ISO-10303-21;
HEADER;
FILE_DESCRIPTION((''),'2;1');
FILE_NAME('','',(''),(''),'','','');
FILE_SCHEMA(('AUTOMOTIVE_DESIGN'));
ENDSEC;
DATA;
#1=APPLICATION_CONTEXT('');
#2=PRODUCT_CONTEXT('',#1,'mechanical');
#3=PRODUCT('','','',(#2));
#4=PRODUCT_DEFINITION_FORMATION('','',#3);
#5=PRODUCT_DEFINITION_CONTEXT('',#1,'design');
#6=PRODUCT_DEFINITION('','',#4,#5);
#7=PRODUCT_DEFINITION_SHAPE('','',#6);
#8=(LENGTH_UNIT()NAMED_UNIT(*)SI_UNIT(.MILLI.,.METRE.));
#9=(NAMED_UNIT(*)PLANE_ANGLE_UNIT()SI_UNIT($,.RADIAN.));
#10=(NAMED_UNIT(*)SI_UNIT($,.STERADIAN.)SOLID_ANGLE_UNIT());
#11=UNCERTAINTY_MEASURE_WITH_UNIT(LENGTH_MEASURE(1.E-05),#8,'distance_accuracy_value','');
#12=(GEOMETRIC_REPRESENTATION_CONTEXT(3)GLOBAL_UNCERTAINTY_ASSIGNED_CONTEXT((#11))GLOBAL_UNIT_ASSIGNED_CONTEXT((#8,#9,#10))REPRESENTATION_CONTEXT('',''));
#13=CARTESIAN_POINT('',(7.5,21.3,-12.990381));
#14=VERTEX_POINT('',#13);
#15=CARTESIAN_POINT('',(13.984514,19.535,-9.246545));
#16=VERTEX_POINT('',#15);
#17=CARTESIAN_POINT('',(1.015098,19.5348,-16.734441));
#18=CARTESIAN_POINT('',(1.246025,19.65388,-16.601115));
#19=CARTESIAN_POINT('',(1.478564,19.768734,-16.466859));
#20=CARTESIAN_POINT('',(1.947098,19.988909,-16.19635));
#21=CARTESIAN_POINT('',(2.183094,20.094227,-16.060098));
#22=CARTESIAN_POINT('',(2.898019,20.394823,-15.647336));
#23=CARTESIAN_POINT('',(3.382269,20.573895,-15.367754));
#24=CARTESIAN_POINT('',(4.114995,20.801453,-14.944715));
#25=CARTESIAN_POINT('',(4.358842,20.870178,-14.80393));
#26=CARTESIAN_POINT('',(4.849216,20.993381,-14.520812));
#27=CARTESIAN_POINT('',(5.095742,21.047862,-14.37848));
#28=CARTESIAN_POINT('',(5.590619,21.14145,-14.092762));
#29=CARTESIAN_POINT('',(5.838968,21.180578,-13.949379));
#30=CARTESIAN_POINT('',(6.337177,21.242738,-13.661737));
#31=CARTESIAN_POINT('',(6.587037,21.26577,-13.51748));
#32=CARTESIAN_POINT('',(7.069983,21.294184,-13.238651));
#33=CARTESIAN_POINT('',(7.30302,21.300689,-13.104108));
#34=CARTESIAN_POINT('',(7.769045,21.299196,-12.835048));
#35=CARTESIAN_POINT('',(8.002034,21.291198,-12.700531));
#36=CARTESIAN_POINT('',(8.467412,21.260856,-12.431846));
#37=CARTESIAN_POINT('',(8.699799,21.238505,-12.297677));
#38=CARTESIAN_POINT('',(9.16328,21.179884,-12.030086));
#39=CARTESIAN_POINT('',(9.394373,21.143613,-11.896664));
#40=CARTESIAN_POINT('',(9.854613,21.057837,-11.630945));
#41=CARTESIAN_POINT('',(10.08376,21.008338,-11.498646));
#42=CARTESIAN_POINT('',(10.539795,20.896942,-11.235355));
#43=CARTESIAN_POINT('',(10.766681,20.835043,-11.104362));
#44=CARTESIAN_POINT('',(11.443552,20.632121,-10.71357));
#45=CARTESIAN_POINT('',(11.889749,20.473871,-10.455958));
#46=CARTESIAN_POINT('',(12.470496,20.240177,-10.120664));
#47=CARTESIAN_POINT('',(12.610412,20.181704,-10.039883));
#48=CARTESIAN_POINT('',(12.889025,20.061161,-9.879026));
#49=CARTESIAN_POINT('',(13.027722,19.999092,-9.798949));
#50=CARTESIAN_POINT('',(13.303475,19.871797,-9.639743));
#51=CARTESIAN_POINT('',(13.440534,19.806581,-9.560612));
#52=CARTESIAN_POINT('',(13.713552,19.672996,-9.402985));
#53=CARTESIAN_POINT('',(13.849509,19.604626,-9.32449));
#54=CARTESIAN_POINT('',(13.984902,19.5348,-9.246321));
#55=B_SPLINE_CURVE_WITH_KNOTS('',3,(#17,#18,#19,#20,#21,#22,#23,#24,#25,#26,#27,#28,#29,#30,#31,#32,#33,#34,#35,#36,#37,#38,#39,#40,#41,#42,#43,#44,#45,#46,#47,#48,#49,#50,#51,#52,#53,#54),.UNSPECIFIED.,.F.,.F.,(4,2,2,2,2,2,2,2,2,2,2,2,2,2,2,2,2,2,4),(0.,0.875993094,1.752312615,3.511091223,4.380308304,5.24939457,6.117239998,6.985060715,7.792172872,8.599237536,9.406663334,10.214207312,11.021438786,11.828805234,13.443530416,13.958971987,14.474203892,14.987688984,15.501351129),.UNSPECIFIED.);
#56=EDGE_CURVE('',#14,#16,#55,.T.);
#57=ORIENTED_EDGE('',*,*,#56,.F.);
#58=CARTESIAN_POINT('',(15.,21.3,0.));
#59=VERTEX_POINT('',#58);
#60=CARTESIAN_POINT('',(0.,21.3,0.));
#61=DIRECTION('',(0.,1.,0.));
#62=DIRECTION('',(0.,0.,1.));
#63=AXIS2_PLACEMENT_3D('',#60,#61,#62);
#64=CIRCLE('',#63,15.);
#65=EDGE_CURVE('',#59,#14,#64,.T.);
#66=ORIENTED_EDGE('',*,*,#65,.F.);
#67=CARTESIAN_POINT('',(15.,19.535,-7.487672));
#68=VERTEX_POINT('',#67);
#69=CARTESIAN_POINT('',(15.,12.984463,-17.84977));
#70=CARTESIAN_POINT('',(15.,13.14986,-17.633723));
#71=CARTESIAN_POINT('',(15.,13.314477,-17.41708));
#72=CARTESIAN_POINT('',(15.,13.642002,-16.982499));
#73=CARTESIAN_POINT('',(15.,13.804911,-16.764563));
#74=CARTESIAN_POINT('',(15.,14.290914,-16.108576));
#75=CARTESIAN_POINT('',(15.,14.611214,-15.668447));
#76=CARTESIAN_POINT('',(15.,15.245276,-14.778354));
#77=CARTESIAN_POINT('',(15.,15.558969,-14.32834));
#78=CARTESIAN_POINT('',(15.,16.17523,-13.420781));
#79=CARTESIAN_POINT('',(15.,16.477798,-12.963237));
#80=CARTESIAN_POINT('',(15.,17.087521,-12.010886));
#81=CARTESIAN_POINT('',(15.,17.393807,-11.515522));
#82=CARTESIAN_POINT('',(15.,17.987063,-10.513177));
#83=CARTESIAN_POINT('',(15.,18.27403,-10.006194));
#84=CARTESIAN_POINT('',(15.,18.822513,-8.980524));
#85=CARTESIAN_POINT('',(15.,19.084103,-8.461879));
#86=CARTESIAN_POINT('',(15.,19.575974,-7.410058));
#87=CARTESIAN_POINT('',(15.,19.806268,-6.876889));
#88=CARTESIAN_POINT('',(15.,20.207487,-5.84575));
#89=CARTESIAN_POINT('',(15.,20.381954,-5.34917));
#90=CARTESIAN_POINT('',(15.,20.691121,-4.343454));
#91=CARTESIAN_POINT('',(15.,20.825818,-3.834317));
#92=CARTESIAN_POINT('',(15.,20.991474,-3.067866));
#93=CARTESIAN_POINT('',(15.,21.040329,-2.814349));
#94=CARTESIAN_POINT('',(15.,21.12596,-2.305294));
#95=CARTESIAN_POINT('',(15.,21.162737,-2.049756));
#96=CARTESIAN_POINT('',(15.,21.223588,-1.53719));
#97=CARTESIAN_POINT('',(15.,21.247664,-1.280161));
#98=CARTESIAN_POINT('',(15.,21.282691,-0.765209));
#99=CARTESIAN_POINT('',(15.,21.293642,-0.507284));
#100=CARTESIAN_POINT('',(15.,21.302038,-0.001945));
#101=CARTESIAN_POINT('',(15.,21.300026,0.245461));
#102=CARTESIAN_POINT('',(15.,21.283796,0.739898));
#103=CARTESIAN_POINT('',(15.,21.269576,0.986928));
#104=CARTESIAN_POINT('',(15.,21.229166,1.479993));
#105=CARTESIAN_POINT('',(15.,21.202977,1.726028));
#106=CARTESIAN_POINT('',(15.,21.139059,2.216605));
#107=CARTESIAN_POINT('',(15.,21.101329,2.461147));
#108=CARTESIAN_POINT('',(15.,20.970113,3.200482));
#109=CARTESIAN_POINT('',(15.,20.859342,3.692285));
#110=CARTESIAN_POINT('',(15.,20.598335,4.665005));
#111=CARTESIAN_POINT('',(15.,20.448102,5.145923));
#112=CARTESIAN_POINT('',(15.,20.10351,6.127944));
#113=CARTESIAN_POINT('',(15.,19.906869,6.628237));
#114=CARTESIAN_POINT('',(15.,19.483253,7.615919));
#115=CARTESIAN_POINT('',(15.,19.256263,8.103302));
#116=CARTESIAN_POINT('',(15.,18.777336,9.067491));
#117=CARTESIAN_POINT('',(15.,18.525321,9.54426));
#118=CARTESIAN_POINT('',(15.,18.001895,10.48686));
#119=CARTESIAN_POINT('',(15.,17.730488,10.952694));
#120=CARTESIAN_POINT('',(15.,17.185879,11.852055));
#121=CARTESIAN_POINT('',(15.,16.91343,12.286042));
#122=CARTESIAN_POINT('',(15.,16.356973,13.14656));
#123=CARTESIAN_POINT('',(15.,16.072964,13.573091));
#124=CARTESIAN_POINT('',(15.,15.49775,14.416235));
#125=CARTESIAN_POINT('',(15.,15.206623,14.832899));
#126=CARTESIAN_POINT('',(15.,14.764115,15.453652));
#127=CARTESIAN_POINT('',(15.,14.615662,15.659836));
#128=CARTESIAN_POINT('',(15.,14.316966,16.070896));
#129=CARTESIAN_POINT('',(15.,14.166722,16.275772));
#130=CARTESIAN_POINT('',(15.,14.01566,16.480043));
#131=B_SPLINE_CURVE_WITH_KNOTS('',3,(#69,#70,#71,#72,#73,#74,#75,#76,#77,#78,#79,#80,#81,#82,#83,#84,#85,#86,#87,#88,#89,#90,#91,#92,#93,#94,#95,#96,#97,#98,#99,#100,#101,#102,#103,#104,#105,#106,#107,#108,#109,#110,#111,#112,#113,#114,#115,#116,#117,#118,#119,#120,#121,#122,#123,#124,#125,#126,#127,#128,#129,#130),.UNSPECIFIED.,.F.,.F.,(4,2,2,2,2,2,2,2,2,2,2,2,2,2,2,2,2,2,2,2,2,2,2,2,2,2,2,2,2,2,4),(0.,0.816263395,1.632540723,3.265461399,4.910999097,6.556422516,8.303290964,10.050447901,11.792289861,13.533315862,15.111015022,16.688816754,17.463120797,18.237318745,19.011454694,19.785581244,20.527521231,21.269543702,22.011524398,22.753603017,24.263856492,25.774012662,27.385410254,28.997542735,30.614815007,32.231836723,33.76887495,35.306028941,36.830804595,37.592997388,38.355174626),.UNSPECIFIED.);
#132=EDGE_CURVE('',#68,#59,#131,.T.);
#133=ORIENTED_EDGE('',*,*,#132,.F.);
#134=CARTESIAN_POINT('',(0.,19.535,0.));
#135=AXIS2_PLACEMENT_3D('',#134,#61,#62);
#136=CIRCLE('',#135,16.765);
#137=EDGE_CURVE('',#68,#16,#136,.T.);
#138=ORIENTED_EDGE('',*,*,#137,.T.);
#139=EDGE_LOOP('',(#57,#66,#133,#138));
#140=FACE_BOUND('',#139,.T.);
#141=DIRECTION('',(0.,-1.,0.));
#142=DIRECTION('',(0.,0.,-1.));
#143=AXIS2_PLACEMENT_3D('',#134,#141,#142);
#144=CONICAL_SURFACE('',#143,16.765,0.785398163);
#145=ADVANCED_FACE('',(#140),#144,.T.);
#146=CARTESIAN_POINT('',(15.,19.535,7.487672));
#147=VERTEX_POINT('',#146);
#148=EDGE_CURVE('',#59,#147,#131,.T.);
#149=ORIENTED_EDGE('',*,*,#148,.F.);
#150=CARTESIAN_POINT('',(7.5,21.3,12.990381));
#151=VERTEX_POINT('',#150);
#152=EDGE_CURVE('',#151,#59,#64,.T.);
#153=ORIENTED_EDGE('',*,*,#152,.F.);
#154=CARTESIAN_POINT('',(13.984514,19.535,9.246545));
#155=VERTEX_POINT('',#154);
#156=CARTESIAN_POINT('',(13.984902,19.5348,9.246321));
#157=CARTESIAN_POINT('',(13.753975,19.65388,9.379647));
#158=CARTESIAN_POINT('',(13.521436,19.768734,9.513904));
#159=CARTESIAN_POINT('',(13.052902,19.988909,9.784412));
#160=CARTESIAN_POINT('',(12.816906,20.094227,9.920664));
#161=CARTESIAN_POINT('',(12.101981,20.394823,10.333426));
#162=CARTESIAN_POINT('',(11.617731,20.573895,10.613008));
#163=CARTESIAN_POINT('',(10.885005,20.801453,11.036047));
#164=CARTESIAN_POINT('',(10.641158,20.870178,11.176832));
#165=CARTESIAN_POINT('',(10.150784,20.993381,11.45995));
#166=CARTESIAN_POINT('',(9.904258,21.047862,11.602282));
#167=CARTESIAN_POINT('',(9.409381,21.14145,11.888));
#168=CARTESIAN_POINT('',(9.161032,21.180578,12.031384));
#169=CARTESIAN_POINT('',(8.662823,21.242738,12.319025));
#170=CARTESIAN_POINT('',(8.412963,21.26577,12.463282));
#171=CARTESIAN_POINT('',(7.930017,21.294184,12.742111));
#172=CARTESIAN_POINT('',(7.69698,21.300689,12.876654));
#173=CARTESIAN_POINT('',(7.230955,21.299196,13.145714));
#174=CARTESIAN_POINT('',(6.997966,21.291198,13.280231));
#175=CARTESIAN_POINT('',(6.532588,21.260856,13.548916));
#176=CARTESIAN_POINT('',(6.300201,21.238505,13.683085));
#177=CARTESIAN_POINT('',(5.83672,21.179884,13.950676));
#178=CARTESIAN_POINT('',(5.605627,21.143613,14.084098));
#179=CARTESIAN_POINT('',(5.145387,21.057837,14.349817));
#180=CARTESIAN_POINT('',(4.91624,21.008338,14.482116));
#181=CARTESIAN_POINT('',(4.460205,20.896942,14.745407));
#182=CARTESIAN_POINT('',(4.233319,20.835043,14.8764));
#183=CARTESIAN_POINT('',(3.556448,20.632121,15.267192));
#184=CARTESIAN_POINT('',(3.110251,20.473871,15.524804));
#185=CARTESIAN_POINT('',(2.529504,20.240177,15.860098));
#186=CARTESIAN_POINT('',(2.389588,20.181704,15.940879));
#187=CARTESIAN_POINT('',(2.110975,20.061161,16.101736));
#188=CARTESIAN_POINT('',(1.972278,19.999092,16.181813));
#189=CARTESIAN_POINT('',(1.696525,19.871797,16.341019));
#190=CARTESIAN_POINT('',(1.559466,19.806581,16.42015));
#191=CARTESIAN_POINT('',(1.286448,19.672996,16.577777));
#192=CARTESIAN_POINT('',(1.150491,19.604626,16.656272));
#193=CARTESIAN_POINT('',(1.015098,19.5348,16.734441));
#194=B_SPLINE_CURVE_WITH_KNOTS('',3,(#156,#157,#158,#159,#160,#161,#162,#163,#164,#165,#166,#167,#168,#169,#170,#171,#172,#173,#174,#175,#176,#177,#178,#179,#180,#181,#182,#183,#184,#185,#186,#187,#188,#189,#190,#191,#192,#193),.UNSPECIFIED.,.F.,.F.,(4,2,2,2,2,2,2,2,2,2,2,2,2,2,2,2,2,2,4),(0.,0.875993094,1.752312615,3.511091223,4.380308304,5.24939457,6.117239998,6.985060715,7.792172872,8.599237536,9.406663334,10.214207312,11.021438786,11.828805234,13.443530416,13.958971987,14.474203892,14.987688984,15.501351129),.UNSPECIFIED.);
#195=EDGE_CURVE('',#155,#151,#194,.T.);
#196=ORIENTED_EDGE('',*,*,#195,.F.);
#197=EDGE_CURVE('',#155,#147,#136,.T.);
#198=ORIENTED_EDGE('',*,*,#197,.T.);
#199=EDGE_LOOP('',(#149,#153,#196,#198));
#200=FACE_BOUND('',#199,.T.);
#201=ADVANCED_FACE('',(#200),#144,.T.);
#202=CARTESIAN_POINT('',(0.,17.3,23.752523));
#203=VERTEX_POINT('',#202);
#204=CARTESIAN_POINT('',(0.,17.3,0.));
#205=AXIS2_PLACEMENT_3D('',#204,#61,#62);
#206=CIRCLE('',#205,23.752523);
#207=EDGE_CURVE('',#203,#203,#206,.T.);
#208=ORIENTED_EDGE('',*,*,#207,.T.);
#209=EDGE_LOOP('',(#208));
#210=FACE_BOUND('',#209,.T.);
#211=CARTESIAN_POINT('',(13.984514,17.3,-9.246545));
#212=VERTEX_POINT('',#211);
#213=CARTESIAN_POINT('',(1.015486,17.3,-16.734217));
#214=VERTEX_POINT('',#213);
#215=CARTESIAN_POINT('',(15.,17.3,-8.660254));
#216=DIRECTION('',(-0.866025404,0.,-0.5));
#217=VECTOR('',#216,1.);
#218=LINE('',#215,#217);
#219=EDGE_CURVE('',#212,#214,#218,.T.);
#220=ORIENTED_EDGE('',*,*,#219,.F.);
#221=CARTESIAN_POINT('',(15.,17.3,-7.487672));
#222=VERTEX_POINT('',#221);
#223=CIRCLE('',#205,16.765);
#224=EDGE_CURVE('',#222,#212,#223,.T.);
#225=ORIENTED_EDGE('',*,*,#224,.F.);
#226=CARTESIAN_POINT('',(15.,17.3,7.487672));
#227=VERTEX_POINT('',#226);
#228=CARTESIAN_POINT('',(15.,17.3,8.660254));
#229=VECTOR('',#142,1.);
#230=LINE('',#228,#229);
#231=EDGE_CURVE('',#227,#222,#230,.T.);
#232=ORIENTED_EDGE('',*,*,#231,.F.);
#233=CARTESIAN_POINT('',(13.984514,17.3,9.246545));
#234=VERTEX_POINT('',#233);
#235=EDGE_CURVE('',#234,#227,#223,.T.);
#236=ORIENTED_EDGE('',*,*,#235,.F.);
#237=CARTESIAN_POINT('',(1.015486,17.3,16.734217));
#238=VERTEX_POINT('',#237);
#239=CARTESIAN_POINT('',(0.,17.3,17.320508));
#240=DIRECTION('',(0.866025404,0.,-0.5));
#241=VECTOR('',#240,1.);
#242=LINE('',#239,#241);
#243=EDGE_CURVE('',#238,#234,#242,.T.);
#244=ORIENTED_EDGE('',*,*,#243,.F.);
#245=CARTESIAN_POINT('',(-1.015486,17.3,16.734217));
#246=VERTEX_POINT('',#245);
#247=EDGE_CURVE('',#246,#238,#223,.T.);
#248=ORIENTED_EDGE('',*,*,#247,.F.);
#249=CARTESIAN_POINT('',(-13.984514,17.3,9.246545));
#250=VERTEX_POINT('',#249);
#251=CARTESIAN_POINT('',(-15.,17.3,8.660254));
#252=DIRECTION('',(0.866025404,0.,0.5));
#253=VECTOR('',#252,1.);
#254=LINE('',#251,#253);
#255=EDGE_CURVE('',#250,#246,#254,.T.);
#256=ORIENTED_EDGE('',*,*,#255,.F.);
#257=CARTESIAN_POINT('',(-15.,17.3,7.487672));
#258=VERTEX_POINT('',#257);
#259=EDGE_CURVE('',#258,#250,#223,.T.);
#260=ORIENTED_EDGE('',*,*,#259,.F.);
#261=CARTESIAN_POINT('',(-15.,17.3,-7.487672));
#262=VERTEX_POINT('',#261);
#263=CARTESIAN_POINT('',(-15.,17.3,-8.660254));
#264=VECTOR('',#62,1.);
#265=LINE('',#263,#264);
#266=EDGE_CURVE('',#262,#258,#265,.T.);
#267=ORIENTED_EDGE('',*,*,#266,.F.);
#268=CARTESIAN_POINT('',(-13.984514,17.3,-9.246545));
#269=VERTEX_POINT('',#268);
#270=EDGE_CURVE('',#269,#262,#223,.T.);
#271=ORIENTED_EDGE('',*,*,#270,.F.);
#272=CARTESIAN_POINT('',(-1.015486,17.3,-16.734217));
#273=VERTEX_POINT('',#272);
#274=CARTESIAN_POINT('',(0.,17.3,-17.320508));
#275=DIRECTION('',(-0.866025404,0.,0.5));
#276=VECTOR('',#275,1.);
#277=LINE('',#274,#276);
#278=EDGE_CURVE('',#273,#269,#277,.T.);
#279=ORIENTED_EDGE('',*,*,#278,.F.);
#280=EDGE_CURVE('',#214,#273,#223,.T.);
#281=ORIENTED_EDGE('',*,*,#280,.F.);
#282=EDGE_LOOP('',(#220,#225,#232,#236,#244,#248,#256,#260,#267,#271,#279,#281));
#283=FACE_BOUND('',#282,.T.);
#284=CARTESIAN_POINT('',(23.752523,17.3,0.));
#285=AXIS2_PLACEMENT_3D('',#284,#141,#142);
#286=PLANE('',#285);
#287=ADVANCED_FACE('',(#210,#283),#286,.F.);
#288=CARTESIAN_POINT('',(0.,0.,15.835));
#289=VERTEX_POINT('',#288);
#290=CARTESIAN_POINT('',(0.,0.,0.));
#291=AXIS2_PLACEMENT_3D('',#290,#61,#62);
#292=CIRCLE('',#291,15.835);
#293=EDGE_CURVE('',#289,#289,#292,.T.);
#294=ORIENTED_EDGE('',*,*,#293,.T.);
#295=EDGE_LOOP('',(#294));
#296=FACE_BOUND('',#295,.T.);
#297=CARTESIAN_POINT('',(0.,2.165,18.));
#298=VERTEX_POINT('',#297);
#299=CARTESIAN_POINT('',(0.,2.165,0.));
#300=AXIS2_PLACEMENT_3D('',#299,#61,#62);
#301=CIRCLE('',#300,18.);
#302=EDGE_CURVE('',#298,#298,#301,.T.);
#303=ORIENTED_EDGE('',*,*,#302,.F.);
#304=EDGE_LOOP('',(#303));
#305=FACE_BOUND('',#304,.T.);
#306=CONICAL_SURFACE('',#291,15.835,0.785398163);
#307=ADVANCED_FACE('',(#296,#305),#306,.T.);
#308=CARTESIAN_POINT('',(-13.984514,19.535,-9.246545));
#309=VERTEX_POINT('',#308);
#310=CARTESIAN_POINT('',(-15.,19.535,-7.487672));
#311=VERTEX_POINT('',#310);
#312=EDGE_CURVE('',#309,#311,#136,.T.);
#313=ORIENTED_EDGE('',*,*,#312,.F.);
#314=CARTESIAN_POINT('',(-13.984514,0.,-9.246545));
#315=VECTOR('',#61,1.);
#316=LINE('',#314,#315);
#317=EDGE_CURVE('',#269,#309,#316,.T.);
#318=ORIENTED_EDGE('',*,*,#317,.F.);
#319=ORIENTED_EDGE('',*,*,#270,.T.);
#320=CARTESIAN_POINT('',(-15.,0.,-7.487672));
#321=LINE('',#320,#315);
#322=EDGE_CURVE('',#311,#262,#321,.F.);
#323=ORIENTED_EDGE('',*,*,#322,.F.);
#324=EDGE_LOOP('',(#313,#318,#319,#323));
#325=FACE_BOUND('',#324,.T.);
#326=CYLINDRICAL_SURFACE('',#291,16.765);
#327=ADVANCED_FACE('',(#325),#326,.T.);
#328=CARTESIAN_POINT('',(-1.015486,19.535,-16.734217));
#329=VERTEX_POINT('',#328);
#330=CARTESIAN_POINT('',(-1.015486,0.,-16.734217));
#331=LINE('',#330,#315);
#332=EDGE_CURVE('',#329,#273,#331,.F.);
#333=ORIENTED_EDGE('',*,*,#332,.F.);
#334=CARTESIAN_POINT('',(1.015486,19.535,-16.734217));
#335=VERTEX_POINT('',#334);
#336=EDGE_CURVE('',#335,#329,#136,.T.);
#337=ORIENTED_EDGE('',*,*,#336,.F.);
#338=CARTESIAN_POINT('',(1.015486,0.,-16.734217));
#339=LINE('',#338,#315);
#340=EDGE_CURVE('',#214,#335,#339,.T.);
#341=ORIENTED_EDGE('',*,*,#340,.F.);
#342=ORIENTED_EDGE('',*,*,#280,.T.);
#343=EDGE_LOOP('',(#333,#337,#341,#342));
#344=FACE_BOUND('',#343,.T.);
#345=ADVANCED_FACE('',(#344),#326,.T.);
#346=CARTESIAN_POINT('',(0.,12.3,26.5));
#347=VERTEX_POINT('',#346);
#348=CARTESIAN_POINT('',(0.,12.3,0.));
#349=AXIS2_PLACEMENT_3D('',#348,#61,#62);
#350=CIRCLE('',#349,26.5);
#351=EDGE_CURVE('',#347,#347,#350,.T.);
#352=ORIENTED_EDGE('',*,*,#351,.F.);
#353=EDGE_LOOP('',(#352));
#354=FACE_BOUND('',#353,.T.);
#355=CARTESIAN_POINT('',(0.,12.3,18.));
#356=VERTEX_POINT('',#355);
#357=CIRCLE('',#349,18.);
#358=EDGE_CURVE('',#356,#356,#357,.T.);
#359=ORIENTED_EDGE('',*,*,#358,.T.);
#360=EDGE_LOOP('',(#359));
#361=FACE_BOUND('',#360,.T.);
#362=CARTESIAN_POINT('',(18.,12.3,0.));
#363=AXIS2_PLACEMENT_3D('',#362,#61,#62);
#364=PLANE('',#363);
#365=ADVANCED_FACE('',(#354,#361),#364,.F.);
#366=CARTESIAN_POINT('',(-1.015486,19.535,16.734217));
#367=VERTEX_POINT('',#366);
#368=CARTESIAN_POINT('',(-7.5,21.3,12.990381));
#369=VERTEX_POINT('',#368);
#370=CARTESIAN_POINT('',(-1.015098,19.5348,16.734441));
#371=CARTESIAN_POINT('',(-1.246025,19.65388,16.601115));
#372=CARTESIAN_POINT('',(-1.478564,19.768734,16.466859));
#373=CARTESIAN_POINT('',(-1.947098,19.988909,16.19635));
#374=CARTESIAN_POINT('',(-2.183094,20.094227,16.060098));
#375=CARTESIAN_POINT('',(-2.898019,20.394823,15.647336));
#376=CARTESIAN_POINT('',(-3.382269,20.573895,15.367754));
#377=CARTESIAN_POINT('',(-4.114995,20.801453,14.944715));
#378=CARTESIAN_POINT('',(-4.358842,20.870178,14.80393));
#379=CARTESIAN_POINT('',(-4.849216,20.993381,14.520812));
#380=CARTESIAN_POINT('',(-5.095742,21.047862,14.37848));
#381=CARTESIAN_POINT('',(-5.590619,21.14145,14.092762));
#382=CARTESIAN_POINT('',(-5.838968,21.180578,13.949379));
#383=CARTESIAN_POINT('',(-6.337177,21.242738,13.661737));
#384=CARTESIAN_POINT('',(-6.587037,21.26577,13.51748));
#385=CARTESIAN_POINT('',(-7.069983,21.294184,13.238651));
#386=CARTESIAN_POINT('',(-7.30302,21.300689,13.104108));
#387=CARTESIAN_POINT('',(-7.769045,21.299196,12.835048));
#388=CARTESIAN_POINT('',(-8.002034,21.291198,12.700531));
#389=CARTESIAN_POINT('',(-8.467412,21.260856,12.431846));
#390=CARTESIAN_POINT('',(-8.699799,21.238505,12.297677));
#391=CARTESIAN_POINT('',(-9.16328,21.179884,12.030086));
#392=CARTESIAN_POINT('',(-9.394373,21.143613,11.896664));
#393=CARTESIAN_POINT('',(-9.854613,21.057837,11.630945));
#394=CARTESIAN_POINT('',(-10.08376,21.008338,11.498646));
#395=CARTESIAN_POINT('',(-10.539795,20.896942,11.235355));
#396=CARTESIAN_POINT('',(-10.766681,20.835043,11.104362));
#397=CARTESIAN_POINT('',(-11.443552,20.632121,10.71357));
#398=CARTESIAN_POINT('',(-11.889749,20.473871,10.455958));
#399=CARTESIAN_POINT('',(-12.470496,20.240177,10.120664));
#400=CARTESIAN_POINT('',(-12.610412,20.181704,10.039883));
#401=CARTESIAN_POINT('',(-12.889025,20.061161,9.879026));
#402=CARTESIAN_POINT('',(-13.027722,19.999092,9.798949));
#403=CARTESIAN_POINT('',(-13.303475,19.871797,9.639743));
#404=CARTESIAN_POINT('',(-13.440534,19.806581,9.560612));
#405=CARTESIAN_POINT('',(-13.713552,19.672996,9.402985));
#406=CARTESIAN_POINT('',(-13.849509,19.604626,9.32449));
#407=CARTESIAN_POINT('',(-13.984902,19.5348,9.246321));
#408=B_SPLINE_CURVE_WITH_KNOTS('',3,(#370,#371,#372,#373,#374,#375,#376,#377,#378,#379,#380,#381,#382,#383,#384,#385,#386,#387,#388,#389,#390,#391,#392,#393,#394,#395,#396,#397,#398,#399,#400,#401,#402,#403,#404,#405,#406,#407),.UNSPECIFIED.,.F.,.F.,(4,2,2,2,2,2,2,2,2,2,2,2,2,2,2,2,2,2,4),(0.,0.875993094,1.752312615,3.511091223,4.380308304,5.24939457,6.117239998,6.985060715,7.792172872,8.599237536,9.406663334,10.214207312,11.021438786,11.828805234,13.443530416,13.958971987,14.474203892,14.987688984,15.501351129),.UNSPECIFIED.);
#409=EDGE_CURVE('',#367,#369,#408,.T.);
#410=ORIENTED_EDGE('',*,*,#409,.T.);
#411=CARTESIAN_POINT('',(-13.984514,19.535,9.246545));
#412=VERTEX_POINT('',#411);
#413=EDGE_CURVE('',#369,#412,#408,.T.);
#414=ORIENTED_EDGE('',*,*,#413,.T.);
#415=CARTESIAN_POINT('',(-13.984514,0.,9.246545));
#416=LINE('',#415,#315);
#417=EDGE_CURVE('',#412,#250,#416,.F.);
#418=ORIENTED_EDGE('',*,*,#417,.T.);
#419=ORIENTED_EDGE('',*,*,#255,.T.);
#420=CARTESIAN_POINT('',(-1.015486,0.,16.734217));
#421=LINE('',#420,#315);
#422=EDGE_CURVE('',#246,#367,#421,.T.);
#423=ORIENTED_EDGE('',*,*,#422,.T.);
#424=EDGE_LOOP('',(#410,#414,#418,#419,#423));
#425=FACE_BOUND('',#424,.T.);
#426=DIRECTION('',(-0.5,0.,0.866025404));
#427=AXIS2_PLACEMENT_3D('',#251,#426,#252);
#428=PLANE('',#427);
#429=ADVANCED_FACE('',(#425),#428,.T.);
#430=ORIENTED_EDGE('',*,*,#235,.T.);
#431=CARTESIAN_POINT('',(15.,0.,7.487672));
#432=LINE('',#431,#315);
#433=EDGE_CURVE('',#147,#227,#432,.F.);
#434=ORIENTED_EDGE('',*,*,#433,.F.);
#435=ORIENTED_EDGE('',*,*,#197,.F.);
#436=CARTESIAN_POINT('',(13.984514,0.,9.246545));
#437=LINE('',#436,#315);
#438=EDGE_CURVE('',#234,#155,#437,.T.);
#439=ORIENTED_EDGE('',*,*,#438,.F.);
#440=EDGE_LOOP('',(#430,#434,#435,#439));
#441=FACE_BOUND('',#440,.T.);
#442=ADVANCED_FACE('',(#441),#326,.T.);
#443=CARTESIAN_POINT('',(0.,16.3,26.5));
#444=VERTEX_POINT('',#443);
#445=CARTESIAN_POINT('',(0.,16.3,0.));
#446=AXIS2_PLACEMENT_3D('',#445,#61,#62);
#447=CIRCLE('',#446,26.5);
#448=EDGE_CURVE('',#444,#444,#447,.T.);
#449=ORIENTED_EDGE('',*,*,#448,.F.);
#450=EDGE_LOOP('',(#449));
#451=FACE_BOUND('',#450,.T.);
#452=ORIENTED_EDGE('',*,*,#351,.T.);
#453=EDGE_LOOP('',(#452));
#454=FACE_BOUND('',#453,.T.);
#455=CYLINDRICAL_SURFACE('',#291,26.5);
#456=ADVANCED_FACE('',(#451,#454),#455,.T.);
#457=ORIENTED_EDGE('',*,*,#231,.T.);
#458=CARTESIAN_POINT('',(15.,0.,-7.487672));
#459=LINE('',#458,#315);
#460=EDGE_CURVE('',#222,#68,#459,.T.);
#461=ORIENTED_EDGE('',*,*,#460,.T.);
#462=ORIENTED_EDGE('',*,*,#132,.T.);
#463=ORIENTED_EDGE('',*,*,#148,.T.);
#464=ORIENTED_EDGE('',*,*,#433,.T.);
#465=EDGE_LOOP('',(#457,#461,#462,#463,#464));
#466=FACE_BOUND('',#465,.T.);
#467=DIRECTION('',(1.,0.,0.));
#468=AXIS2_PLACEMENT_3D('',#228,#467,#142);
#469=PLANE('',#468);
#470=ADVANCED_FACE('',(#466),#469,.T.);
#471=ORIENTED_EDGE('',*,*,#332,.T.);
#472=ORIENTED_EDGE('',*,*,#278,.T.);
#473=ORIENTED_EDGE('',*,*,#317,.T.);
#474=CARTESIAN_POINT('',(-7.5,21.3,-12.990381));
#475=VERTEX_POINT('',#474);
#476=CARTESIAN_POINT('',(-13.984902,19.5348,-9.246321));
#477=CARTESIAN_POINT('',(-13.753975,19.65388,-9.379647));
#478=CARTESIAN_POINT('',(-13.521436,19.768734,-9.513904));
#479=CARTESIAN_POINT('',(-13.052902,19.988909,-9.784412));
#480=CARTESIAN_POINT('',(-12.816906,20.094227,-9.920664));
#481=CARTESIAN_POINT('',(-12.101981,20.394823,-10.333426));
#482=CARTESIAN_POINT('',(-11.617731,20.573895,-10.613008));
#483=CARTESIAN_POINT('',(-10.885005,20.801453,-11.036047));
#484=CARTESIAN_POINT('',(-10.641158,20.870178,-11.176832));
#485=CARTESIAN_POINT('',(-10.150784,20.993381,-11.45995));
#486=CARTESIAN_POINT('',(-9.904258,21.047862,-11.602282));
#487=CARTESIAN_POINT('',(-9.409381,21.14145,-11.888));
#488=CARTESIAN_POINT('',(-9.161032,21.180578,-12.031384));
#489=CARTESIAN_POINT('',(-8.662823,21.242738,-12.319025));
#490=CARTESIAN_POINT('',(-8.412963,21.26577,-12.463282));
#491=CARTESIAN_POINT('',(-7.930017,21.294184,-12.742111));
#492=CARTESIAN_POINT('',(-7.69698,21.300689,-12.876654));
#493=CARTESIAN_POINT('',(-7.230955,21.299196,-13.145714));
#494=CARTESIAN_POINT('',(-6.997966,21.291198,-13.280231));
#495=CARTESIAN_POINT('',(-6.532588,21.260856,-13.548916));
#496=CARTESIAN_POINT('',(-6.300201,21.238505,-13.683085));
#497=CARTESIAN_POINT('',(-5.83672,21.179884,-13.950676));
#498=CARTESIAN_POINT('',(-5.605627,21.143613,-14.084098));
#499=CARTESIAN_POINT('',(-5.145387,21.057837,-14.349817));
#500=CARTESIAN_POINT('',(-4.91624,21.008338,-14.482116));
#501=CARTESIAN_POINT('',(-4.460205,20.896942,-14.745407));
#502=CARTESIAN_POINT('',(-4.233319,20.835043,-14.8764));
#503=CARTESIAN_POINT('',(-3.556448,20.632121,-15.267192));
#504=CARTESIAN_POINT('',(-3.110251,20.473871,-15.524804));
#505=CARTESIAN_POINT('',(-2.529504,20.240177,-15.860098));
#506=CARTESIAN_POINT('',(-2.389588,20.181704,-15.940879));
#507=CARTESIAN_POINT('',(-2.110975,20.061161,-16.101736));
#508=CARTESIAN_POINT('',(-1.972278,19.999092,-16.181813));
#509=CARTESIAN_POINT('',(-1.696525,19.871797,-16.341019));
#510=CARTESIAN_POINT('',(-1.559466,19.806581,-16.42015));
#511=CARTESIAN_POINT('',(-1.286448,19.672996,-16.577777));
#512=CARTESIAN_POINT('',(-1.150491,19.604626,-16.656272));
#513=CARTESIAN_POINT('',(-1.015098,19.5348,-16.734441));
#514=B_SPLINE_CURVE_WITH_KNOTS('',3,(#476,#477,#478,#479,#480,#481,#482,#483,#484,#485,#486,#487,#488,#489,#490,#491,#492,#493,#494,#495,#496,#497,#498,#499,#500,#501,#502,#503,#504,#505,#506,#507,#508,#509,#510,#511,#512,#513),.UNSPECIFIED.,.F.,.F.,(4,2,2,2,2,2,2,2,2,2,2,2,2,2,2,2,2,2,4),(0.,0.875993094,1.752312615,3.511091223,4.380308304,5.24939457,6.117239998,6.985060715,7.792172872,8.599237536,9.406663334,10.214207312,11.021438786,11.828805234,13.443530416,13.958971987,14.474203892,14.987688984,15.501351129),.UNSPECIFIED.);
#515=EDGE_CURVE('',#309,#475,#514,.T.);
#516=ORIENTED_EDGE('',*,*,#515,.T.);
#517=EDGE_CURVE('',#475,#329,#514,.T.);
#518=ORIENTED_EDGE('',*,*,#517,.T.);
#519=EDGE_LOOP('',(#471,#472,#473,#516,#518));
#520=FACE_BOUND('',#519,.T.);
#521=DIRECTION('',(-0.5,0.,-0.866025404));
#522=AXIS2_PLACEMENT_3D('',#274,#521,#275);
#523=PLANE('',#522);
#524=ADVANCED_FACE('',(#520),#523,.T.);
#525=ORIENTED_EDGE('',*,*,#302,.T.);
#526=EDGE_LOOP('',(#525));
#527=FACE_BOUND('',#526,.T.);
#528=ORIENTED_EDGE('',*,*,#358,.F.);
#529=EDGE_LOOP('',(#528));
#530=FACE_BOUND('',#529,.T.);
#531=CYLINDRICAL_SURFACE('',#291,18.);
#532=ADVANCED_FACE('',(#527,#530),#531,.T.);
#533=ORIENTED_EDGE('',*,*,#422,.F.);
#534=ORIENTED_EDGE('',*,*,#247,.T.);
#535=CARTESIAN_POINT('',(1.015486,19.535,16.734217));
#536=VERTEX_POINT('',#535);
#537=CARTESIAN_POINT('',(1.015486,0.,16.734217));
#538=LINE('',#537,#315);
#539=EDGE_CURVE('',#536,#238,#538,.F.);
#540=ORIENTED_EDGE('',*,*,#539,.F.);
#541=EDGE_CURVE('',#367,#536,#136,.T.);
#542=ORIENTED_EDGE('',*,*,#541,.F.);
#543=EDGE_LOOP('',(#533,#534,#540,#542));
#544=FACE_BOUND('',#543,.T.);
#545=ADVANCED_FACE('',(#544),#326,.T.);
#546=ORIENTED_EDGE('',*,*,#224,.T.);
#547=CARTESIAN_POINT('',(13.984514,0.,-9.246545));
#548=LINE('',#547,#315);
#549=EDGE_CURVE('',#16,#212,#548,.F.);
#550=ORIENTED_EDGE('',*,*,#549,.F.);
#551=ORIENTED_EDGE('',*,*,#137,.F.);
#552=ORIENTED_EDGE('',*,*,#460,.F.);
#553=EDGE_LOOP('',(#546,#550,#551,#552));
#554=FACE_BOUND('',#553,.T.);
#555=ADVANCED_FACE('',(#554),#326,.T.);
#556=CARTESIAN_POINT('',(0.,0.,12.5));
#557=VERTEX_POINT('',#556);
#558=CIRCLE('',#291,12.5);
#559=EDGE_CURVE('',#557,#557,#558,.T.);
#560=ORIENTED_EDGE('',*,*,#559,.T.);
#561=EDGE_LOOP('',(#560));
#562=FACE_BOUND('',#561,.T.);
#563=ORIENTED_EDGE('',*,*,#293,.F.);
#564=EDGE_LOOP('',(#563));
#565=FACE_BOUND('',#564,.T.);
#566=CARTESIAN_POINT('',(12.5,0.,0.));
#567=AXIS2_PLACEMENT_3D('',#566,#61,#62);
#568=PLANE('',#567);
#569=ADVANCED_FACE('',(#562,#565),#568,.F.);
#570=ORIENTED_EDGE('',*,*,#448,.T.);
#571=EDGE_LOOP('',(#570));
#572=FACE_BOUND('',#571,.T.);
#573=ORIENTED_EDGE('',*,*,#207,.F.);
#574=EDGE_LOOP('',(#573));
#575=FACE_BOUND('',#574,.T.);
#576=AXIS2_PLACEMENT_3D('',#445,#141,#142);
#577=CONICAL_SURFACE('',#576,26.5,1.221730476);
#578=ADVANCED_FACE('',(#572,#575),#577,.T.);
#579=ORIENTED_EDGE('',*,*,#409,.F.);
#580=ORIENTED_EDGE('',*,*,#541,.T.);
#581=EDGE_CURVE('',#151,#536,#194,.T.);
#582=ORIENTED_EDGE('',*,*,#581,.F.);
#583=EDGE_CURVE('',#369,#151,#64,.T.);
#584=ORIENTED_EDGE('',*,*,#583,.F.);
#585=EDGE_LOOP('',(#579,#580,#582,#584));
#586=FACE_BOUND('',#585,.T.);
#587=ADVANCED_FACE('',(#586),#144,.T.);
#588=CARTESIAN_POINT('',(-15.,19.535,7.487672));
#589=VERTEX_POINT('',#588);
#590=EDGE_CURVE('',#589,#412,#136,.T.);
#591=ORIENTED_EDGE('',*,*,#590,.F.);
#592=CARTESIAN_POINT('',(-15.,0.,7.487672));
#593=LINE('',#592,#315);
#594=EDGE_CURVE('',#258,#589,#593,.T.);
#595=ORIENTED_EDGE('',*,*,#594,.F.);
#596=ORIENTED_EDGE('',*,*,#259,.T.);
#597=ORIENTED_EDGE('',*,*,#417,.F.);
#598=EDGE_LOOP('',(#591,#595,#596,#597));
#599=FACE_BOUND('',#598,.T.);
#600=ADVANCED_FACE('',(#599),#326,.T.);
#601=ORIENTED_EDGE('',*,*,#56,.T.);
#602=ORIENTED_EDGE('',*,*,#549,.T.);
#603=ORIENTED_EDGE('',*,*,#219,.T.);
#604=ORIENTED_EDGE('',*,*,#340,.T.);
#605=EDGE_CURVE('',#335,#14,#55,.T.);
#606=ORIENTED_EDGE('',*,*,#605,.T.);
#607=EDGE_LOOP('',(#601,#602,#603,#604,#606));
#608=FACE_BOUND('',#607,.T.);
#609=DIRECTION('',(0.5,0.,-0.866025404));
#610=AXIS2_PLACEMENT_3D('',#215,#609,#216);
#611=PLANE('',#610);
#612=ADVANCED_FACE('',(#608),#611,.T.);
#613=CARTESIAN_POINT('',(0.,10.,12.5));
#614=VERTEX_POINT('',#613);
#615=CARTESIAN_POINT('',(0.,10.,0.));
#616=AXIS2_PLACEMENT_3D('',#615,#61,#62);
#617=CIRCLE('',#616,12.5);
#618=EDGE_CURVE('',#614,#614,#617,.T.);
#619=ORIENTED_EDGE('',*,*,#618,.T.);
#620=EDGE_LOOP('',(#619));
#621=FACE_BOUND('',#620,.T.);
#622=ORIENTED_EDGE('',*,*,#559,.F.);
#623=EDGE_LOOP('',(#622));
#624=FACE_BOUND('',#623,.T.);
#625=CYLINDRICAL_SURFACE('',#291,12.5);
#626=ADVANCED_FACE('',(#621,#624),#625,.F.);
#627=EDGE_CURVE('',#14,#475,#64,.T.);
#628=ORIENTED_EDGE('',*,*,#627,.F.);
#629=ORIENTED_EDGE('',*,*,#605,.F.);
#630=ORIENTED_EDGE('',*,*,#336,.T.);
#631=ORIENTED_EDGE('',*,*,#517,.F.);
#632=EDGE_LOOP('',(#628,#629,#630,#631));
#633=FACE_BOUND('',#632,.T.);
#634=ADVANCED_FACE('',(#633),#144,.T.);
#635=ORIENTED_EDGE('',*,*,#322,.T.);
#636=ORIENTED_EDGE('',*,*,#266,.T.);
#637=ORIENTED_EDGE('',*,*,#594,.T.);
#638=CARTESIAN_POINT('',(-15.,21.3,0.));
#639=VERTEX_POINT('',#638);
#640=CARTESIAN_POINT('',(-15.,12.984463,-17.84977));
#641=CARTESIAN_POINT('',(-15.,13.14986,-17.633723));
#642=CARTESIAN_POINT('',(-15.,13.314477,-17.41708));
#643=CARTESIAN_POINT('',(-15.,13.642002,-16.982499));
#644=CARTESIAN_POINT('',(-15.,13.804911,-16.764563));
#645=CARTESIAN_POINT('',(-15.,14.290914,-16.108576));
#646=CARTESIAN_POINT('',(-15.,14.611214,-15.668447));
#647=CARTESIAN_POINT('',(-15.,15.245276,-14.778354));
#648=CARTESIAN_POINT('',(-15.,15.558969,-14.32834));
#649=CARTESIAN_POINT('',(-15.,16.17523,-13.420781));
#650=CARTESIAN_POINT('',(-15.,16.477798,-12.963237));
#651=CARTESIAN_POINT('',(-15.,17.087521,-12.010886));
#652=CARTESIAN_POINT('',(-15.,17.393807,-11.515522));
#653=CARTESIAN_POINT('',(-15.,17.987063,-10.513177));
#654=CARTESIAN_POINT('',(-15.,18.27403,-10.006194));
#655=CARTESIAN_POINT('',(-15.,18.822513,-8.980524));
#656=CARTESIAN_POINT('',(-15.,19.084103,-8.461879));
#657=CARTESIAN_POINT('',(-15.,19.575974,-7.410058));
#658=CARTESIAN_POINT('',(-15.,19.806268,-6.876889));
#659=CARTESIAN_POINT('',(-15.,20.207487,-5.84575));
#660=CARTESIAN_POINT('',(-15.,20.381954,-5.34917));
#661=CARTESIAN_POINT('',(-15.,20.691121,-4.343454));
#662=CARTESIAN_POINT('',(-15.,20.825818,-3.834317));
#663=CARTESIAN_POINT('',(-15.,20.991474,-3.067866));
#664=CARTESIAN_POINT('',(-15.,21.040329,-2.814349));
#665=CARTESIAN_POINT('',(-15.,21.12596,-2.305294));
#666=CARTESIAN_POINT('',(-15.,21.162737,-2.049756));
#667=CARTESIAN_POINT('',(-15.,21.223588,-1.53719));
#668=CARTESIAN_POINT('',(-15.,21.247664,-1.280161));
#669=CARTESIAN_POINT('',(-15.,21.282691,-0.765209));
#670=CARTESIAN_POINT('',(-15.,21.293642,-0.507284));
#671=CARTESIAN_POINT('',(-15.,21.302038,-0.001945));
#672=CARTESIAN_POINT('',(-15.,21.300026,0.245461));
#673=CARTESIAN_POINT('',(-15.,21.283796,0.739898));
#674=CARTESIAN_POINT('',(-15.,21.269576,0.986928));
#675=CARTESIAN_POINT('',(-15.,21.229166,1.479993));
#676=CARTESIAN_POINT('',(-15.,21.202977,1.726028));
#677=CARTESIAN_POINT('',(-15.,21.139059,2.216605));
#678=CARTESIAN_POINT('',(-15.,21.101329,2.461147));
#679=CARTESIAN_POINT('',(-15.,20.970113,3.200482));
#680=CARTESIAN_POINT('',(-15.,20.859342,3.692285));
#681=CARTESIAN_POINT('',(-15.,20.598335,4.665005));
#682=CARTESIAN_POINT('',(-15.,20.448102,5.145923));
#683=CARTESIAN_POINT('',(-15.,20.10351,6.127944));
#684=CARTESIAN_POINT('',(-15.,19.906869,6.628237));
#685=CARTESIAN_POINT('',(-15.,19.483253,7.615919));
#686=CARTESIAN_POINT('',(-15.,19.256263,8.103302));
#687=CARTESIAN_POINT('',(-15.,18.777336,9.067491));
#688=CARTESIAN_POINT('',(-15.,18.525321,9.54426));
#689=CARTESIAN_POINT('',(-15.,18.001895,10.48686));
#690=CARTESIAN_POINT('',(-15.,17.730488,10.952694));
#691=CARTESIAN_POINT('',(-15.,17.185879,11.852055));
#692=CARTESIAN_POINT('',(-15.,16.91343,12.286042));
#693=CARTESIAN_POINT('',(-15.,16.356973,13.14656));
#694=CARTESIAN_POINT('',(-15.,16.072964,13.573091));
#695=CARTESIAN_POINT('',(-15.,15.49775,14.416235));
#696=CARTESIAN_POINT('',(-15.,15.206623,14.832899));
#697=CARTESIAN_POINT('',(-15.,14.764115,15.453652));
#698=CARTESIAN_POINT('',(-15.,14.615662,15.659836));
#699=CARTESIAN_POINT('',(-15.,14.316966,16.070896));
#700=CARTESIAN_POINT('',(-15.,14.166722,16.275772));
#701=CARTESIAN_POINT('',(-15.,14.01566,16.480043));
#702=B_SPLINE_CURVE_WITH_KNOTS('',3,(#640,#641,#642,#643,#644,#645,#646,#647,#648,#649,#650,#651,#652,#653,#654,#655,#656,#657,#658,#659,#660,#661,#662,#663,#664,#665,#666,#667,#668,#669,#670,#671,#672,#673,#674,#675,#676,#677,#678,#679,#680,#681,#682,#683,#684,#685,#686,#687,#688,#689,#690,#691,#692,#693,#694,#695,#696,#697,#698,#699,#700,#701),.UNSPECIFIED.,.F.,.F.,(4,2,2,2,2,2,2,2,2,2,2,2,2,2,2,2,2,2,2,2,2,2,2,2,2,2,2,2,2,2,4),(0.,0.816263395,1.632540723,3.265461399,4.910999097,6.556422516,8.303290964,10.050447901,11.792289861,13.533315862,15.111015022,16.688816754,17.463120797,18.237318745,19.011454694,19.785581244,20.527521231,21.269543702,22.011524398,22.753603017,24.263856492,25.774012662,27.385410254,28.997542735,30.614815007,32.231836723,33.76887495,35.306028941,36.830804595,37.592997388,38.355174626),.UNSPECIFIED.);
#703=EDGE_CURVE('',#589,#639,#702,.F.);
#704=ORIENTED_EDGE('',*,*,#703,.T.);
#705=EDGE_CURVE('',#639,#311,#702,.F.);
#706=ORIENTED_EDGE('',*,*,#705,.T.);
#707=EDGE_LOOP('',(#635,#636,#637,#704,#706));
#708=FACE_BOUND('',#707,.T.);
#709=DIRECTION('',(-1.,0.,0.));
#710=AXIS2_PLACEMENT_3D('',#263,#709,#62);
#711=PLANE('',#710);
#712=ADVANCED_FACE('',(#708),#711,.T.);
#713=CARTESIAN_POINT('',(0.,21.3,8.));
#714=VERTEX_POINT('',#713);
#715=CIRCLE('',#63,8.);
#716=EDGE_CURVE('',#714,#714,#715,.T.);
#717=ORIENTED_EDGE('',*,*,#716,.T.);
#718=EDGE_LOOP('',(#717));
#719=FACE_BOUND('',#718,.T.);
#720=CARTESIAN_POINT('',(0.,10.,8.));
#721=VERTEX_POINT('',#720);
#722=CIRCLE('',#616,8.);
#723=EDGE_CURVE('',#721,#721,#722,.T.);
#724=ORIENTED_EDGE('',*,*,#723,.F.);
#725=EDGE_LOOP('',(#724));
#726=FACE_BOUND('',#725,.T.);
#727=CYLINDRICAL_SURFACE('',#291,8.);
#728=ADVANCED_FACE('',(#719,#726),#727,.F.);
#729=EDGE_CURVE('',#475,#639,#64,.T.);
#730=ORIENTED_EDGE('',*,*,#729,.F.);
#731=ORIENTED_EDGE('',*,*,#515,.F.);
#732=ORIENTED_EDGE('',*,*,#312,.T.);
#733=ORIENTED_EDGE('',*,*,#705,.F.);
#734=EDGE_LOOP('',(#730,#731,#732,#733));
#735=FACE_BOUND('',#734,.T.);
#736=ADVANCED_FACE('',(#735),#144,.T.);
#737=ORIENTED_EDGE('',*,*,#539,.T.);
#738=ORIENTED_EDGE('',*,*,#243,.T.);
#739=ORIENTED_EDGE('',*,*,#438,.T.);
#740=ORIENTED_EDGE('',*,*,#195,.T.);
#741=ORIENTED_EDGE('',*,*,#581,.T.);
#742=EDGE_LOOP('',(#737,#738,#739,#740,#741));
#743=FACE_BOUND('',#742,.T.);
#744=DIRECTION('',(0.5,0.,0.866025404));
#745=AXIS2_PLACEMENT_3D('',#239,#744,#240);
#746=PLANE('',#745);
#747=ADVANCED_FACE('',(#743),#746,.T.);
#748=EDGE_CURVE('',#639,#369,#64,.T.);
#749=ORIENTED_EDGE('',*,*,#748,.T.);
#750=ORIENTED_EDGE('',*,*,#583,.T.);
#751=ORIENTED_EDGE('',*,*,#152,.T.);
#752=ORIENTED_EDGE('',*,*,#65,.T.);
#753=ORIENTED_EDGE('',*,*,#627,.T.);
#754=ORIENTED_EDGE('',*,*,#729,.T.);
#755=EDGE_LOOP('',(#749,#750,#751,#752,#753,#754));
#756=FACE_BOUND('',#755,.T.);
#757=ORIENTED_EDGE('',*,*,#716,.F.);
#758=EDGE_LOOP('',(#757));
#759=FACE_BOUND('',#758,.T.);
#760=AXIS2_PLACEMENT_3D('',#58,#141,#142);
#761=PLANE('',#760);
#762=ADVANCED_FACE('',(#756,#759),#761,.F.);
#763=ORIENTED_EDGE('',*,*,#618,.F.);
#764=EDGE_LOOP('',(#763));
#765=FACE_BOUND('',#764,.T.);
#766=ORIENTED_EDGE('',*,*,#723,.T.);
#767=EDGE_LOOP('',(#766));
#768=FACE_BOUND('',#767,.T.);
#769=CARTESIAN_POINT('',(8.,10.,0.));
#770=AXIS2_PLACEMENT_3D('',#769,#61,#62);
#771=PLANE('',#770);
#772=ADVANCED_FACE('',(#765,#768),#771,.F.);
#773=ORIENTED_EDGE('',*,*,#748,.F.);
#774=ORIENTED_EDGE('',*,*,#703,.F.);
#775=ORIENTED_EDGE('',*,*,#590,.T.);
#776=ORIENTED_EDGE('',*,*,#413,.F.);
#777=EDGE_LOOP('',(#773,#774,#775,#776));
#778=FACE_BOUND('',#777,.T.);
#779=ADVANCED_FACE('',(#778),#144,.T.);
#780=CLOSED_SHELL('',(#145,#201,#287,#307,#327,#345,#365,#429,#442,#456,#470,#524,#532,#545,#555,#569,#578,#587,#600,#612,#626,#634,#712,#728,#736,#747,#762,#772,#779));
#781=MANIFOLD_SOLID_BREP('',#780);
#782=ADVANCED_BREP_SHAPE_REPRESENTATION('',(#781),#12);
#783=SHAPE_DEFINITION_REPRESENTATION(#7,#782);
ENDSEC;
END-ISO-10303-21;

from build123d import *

# Parameters (mm, degrees)
SKETCH_2_W          = 102.444219067
SKETCH_2_H          = 95.84178499
CUT_EXTRUDE_1_DEPTH = 4


with BuildPart() as part:
    # 草图1 → 旋转1 (revolve)
    with BuildSketch(Plane.XY):
        Polygon((8, 21.3), (8, 10), (12.5, 10), (12.5, 0), (15.835, 0), (18, 2.165), (18, 12.3), (26.5, 12.3), (26.5, 16.3), (23.752522581, 17.3), (16.765, 17.3), (16.765, 19.535), (15, 21.3), align=None)
    revolve(axis=Axis((0, 0, 0), (0, 1, 0)))

    # 草图2 → 切除-拉伸1 (cut)
    with BuildSketch(Plane(origin=(0, 21.3, 0), x_dir=(1, 0, 0), z_dir=(0, 1, 0))):
        with Locations((3.088235295, -0.106490872)):
            Rectangle(SKETCH_2_W, SKETCH_2_H)
        Polygon((-15, 8.660254038), (-15, -8.660254038), (0, -17.320508076), (15, -8.660254038), (15, 8.660254038), (0, 17.320508076), align=None, mode=Mode.SUBTRACT)
    extrude(amount=-CUT_EXTRUDE_1_DEPTH, mode=Mode.SUBTRACT)


solid = part.part
